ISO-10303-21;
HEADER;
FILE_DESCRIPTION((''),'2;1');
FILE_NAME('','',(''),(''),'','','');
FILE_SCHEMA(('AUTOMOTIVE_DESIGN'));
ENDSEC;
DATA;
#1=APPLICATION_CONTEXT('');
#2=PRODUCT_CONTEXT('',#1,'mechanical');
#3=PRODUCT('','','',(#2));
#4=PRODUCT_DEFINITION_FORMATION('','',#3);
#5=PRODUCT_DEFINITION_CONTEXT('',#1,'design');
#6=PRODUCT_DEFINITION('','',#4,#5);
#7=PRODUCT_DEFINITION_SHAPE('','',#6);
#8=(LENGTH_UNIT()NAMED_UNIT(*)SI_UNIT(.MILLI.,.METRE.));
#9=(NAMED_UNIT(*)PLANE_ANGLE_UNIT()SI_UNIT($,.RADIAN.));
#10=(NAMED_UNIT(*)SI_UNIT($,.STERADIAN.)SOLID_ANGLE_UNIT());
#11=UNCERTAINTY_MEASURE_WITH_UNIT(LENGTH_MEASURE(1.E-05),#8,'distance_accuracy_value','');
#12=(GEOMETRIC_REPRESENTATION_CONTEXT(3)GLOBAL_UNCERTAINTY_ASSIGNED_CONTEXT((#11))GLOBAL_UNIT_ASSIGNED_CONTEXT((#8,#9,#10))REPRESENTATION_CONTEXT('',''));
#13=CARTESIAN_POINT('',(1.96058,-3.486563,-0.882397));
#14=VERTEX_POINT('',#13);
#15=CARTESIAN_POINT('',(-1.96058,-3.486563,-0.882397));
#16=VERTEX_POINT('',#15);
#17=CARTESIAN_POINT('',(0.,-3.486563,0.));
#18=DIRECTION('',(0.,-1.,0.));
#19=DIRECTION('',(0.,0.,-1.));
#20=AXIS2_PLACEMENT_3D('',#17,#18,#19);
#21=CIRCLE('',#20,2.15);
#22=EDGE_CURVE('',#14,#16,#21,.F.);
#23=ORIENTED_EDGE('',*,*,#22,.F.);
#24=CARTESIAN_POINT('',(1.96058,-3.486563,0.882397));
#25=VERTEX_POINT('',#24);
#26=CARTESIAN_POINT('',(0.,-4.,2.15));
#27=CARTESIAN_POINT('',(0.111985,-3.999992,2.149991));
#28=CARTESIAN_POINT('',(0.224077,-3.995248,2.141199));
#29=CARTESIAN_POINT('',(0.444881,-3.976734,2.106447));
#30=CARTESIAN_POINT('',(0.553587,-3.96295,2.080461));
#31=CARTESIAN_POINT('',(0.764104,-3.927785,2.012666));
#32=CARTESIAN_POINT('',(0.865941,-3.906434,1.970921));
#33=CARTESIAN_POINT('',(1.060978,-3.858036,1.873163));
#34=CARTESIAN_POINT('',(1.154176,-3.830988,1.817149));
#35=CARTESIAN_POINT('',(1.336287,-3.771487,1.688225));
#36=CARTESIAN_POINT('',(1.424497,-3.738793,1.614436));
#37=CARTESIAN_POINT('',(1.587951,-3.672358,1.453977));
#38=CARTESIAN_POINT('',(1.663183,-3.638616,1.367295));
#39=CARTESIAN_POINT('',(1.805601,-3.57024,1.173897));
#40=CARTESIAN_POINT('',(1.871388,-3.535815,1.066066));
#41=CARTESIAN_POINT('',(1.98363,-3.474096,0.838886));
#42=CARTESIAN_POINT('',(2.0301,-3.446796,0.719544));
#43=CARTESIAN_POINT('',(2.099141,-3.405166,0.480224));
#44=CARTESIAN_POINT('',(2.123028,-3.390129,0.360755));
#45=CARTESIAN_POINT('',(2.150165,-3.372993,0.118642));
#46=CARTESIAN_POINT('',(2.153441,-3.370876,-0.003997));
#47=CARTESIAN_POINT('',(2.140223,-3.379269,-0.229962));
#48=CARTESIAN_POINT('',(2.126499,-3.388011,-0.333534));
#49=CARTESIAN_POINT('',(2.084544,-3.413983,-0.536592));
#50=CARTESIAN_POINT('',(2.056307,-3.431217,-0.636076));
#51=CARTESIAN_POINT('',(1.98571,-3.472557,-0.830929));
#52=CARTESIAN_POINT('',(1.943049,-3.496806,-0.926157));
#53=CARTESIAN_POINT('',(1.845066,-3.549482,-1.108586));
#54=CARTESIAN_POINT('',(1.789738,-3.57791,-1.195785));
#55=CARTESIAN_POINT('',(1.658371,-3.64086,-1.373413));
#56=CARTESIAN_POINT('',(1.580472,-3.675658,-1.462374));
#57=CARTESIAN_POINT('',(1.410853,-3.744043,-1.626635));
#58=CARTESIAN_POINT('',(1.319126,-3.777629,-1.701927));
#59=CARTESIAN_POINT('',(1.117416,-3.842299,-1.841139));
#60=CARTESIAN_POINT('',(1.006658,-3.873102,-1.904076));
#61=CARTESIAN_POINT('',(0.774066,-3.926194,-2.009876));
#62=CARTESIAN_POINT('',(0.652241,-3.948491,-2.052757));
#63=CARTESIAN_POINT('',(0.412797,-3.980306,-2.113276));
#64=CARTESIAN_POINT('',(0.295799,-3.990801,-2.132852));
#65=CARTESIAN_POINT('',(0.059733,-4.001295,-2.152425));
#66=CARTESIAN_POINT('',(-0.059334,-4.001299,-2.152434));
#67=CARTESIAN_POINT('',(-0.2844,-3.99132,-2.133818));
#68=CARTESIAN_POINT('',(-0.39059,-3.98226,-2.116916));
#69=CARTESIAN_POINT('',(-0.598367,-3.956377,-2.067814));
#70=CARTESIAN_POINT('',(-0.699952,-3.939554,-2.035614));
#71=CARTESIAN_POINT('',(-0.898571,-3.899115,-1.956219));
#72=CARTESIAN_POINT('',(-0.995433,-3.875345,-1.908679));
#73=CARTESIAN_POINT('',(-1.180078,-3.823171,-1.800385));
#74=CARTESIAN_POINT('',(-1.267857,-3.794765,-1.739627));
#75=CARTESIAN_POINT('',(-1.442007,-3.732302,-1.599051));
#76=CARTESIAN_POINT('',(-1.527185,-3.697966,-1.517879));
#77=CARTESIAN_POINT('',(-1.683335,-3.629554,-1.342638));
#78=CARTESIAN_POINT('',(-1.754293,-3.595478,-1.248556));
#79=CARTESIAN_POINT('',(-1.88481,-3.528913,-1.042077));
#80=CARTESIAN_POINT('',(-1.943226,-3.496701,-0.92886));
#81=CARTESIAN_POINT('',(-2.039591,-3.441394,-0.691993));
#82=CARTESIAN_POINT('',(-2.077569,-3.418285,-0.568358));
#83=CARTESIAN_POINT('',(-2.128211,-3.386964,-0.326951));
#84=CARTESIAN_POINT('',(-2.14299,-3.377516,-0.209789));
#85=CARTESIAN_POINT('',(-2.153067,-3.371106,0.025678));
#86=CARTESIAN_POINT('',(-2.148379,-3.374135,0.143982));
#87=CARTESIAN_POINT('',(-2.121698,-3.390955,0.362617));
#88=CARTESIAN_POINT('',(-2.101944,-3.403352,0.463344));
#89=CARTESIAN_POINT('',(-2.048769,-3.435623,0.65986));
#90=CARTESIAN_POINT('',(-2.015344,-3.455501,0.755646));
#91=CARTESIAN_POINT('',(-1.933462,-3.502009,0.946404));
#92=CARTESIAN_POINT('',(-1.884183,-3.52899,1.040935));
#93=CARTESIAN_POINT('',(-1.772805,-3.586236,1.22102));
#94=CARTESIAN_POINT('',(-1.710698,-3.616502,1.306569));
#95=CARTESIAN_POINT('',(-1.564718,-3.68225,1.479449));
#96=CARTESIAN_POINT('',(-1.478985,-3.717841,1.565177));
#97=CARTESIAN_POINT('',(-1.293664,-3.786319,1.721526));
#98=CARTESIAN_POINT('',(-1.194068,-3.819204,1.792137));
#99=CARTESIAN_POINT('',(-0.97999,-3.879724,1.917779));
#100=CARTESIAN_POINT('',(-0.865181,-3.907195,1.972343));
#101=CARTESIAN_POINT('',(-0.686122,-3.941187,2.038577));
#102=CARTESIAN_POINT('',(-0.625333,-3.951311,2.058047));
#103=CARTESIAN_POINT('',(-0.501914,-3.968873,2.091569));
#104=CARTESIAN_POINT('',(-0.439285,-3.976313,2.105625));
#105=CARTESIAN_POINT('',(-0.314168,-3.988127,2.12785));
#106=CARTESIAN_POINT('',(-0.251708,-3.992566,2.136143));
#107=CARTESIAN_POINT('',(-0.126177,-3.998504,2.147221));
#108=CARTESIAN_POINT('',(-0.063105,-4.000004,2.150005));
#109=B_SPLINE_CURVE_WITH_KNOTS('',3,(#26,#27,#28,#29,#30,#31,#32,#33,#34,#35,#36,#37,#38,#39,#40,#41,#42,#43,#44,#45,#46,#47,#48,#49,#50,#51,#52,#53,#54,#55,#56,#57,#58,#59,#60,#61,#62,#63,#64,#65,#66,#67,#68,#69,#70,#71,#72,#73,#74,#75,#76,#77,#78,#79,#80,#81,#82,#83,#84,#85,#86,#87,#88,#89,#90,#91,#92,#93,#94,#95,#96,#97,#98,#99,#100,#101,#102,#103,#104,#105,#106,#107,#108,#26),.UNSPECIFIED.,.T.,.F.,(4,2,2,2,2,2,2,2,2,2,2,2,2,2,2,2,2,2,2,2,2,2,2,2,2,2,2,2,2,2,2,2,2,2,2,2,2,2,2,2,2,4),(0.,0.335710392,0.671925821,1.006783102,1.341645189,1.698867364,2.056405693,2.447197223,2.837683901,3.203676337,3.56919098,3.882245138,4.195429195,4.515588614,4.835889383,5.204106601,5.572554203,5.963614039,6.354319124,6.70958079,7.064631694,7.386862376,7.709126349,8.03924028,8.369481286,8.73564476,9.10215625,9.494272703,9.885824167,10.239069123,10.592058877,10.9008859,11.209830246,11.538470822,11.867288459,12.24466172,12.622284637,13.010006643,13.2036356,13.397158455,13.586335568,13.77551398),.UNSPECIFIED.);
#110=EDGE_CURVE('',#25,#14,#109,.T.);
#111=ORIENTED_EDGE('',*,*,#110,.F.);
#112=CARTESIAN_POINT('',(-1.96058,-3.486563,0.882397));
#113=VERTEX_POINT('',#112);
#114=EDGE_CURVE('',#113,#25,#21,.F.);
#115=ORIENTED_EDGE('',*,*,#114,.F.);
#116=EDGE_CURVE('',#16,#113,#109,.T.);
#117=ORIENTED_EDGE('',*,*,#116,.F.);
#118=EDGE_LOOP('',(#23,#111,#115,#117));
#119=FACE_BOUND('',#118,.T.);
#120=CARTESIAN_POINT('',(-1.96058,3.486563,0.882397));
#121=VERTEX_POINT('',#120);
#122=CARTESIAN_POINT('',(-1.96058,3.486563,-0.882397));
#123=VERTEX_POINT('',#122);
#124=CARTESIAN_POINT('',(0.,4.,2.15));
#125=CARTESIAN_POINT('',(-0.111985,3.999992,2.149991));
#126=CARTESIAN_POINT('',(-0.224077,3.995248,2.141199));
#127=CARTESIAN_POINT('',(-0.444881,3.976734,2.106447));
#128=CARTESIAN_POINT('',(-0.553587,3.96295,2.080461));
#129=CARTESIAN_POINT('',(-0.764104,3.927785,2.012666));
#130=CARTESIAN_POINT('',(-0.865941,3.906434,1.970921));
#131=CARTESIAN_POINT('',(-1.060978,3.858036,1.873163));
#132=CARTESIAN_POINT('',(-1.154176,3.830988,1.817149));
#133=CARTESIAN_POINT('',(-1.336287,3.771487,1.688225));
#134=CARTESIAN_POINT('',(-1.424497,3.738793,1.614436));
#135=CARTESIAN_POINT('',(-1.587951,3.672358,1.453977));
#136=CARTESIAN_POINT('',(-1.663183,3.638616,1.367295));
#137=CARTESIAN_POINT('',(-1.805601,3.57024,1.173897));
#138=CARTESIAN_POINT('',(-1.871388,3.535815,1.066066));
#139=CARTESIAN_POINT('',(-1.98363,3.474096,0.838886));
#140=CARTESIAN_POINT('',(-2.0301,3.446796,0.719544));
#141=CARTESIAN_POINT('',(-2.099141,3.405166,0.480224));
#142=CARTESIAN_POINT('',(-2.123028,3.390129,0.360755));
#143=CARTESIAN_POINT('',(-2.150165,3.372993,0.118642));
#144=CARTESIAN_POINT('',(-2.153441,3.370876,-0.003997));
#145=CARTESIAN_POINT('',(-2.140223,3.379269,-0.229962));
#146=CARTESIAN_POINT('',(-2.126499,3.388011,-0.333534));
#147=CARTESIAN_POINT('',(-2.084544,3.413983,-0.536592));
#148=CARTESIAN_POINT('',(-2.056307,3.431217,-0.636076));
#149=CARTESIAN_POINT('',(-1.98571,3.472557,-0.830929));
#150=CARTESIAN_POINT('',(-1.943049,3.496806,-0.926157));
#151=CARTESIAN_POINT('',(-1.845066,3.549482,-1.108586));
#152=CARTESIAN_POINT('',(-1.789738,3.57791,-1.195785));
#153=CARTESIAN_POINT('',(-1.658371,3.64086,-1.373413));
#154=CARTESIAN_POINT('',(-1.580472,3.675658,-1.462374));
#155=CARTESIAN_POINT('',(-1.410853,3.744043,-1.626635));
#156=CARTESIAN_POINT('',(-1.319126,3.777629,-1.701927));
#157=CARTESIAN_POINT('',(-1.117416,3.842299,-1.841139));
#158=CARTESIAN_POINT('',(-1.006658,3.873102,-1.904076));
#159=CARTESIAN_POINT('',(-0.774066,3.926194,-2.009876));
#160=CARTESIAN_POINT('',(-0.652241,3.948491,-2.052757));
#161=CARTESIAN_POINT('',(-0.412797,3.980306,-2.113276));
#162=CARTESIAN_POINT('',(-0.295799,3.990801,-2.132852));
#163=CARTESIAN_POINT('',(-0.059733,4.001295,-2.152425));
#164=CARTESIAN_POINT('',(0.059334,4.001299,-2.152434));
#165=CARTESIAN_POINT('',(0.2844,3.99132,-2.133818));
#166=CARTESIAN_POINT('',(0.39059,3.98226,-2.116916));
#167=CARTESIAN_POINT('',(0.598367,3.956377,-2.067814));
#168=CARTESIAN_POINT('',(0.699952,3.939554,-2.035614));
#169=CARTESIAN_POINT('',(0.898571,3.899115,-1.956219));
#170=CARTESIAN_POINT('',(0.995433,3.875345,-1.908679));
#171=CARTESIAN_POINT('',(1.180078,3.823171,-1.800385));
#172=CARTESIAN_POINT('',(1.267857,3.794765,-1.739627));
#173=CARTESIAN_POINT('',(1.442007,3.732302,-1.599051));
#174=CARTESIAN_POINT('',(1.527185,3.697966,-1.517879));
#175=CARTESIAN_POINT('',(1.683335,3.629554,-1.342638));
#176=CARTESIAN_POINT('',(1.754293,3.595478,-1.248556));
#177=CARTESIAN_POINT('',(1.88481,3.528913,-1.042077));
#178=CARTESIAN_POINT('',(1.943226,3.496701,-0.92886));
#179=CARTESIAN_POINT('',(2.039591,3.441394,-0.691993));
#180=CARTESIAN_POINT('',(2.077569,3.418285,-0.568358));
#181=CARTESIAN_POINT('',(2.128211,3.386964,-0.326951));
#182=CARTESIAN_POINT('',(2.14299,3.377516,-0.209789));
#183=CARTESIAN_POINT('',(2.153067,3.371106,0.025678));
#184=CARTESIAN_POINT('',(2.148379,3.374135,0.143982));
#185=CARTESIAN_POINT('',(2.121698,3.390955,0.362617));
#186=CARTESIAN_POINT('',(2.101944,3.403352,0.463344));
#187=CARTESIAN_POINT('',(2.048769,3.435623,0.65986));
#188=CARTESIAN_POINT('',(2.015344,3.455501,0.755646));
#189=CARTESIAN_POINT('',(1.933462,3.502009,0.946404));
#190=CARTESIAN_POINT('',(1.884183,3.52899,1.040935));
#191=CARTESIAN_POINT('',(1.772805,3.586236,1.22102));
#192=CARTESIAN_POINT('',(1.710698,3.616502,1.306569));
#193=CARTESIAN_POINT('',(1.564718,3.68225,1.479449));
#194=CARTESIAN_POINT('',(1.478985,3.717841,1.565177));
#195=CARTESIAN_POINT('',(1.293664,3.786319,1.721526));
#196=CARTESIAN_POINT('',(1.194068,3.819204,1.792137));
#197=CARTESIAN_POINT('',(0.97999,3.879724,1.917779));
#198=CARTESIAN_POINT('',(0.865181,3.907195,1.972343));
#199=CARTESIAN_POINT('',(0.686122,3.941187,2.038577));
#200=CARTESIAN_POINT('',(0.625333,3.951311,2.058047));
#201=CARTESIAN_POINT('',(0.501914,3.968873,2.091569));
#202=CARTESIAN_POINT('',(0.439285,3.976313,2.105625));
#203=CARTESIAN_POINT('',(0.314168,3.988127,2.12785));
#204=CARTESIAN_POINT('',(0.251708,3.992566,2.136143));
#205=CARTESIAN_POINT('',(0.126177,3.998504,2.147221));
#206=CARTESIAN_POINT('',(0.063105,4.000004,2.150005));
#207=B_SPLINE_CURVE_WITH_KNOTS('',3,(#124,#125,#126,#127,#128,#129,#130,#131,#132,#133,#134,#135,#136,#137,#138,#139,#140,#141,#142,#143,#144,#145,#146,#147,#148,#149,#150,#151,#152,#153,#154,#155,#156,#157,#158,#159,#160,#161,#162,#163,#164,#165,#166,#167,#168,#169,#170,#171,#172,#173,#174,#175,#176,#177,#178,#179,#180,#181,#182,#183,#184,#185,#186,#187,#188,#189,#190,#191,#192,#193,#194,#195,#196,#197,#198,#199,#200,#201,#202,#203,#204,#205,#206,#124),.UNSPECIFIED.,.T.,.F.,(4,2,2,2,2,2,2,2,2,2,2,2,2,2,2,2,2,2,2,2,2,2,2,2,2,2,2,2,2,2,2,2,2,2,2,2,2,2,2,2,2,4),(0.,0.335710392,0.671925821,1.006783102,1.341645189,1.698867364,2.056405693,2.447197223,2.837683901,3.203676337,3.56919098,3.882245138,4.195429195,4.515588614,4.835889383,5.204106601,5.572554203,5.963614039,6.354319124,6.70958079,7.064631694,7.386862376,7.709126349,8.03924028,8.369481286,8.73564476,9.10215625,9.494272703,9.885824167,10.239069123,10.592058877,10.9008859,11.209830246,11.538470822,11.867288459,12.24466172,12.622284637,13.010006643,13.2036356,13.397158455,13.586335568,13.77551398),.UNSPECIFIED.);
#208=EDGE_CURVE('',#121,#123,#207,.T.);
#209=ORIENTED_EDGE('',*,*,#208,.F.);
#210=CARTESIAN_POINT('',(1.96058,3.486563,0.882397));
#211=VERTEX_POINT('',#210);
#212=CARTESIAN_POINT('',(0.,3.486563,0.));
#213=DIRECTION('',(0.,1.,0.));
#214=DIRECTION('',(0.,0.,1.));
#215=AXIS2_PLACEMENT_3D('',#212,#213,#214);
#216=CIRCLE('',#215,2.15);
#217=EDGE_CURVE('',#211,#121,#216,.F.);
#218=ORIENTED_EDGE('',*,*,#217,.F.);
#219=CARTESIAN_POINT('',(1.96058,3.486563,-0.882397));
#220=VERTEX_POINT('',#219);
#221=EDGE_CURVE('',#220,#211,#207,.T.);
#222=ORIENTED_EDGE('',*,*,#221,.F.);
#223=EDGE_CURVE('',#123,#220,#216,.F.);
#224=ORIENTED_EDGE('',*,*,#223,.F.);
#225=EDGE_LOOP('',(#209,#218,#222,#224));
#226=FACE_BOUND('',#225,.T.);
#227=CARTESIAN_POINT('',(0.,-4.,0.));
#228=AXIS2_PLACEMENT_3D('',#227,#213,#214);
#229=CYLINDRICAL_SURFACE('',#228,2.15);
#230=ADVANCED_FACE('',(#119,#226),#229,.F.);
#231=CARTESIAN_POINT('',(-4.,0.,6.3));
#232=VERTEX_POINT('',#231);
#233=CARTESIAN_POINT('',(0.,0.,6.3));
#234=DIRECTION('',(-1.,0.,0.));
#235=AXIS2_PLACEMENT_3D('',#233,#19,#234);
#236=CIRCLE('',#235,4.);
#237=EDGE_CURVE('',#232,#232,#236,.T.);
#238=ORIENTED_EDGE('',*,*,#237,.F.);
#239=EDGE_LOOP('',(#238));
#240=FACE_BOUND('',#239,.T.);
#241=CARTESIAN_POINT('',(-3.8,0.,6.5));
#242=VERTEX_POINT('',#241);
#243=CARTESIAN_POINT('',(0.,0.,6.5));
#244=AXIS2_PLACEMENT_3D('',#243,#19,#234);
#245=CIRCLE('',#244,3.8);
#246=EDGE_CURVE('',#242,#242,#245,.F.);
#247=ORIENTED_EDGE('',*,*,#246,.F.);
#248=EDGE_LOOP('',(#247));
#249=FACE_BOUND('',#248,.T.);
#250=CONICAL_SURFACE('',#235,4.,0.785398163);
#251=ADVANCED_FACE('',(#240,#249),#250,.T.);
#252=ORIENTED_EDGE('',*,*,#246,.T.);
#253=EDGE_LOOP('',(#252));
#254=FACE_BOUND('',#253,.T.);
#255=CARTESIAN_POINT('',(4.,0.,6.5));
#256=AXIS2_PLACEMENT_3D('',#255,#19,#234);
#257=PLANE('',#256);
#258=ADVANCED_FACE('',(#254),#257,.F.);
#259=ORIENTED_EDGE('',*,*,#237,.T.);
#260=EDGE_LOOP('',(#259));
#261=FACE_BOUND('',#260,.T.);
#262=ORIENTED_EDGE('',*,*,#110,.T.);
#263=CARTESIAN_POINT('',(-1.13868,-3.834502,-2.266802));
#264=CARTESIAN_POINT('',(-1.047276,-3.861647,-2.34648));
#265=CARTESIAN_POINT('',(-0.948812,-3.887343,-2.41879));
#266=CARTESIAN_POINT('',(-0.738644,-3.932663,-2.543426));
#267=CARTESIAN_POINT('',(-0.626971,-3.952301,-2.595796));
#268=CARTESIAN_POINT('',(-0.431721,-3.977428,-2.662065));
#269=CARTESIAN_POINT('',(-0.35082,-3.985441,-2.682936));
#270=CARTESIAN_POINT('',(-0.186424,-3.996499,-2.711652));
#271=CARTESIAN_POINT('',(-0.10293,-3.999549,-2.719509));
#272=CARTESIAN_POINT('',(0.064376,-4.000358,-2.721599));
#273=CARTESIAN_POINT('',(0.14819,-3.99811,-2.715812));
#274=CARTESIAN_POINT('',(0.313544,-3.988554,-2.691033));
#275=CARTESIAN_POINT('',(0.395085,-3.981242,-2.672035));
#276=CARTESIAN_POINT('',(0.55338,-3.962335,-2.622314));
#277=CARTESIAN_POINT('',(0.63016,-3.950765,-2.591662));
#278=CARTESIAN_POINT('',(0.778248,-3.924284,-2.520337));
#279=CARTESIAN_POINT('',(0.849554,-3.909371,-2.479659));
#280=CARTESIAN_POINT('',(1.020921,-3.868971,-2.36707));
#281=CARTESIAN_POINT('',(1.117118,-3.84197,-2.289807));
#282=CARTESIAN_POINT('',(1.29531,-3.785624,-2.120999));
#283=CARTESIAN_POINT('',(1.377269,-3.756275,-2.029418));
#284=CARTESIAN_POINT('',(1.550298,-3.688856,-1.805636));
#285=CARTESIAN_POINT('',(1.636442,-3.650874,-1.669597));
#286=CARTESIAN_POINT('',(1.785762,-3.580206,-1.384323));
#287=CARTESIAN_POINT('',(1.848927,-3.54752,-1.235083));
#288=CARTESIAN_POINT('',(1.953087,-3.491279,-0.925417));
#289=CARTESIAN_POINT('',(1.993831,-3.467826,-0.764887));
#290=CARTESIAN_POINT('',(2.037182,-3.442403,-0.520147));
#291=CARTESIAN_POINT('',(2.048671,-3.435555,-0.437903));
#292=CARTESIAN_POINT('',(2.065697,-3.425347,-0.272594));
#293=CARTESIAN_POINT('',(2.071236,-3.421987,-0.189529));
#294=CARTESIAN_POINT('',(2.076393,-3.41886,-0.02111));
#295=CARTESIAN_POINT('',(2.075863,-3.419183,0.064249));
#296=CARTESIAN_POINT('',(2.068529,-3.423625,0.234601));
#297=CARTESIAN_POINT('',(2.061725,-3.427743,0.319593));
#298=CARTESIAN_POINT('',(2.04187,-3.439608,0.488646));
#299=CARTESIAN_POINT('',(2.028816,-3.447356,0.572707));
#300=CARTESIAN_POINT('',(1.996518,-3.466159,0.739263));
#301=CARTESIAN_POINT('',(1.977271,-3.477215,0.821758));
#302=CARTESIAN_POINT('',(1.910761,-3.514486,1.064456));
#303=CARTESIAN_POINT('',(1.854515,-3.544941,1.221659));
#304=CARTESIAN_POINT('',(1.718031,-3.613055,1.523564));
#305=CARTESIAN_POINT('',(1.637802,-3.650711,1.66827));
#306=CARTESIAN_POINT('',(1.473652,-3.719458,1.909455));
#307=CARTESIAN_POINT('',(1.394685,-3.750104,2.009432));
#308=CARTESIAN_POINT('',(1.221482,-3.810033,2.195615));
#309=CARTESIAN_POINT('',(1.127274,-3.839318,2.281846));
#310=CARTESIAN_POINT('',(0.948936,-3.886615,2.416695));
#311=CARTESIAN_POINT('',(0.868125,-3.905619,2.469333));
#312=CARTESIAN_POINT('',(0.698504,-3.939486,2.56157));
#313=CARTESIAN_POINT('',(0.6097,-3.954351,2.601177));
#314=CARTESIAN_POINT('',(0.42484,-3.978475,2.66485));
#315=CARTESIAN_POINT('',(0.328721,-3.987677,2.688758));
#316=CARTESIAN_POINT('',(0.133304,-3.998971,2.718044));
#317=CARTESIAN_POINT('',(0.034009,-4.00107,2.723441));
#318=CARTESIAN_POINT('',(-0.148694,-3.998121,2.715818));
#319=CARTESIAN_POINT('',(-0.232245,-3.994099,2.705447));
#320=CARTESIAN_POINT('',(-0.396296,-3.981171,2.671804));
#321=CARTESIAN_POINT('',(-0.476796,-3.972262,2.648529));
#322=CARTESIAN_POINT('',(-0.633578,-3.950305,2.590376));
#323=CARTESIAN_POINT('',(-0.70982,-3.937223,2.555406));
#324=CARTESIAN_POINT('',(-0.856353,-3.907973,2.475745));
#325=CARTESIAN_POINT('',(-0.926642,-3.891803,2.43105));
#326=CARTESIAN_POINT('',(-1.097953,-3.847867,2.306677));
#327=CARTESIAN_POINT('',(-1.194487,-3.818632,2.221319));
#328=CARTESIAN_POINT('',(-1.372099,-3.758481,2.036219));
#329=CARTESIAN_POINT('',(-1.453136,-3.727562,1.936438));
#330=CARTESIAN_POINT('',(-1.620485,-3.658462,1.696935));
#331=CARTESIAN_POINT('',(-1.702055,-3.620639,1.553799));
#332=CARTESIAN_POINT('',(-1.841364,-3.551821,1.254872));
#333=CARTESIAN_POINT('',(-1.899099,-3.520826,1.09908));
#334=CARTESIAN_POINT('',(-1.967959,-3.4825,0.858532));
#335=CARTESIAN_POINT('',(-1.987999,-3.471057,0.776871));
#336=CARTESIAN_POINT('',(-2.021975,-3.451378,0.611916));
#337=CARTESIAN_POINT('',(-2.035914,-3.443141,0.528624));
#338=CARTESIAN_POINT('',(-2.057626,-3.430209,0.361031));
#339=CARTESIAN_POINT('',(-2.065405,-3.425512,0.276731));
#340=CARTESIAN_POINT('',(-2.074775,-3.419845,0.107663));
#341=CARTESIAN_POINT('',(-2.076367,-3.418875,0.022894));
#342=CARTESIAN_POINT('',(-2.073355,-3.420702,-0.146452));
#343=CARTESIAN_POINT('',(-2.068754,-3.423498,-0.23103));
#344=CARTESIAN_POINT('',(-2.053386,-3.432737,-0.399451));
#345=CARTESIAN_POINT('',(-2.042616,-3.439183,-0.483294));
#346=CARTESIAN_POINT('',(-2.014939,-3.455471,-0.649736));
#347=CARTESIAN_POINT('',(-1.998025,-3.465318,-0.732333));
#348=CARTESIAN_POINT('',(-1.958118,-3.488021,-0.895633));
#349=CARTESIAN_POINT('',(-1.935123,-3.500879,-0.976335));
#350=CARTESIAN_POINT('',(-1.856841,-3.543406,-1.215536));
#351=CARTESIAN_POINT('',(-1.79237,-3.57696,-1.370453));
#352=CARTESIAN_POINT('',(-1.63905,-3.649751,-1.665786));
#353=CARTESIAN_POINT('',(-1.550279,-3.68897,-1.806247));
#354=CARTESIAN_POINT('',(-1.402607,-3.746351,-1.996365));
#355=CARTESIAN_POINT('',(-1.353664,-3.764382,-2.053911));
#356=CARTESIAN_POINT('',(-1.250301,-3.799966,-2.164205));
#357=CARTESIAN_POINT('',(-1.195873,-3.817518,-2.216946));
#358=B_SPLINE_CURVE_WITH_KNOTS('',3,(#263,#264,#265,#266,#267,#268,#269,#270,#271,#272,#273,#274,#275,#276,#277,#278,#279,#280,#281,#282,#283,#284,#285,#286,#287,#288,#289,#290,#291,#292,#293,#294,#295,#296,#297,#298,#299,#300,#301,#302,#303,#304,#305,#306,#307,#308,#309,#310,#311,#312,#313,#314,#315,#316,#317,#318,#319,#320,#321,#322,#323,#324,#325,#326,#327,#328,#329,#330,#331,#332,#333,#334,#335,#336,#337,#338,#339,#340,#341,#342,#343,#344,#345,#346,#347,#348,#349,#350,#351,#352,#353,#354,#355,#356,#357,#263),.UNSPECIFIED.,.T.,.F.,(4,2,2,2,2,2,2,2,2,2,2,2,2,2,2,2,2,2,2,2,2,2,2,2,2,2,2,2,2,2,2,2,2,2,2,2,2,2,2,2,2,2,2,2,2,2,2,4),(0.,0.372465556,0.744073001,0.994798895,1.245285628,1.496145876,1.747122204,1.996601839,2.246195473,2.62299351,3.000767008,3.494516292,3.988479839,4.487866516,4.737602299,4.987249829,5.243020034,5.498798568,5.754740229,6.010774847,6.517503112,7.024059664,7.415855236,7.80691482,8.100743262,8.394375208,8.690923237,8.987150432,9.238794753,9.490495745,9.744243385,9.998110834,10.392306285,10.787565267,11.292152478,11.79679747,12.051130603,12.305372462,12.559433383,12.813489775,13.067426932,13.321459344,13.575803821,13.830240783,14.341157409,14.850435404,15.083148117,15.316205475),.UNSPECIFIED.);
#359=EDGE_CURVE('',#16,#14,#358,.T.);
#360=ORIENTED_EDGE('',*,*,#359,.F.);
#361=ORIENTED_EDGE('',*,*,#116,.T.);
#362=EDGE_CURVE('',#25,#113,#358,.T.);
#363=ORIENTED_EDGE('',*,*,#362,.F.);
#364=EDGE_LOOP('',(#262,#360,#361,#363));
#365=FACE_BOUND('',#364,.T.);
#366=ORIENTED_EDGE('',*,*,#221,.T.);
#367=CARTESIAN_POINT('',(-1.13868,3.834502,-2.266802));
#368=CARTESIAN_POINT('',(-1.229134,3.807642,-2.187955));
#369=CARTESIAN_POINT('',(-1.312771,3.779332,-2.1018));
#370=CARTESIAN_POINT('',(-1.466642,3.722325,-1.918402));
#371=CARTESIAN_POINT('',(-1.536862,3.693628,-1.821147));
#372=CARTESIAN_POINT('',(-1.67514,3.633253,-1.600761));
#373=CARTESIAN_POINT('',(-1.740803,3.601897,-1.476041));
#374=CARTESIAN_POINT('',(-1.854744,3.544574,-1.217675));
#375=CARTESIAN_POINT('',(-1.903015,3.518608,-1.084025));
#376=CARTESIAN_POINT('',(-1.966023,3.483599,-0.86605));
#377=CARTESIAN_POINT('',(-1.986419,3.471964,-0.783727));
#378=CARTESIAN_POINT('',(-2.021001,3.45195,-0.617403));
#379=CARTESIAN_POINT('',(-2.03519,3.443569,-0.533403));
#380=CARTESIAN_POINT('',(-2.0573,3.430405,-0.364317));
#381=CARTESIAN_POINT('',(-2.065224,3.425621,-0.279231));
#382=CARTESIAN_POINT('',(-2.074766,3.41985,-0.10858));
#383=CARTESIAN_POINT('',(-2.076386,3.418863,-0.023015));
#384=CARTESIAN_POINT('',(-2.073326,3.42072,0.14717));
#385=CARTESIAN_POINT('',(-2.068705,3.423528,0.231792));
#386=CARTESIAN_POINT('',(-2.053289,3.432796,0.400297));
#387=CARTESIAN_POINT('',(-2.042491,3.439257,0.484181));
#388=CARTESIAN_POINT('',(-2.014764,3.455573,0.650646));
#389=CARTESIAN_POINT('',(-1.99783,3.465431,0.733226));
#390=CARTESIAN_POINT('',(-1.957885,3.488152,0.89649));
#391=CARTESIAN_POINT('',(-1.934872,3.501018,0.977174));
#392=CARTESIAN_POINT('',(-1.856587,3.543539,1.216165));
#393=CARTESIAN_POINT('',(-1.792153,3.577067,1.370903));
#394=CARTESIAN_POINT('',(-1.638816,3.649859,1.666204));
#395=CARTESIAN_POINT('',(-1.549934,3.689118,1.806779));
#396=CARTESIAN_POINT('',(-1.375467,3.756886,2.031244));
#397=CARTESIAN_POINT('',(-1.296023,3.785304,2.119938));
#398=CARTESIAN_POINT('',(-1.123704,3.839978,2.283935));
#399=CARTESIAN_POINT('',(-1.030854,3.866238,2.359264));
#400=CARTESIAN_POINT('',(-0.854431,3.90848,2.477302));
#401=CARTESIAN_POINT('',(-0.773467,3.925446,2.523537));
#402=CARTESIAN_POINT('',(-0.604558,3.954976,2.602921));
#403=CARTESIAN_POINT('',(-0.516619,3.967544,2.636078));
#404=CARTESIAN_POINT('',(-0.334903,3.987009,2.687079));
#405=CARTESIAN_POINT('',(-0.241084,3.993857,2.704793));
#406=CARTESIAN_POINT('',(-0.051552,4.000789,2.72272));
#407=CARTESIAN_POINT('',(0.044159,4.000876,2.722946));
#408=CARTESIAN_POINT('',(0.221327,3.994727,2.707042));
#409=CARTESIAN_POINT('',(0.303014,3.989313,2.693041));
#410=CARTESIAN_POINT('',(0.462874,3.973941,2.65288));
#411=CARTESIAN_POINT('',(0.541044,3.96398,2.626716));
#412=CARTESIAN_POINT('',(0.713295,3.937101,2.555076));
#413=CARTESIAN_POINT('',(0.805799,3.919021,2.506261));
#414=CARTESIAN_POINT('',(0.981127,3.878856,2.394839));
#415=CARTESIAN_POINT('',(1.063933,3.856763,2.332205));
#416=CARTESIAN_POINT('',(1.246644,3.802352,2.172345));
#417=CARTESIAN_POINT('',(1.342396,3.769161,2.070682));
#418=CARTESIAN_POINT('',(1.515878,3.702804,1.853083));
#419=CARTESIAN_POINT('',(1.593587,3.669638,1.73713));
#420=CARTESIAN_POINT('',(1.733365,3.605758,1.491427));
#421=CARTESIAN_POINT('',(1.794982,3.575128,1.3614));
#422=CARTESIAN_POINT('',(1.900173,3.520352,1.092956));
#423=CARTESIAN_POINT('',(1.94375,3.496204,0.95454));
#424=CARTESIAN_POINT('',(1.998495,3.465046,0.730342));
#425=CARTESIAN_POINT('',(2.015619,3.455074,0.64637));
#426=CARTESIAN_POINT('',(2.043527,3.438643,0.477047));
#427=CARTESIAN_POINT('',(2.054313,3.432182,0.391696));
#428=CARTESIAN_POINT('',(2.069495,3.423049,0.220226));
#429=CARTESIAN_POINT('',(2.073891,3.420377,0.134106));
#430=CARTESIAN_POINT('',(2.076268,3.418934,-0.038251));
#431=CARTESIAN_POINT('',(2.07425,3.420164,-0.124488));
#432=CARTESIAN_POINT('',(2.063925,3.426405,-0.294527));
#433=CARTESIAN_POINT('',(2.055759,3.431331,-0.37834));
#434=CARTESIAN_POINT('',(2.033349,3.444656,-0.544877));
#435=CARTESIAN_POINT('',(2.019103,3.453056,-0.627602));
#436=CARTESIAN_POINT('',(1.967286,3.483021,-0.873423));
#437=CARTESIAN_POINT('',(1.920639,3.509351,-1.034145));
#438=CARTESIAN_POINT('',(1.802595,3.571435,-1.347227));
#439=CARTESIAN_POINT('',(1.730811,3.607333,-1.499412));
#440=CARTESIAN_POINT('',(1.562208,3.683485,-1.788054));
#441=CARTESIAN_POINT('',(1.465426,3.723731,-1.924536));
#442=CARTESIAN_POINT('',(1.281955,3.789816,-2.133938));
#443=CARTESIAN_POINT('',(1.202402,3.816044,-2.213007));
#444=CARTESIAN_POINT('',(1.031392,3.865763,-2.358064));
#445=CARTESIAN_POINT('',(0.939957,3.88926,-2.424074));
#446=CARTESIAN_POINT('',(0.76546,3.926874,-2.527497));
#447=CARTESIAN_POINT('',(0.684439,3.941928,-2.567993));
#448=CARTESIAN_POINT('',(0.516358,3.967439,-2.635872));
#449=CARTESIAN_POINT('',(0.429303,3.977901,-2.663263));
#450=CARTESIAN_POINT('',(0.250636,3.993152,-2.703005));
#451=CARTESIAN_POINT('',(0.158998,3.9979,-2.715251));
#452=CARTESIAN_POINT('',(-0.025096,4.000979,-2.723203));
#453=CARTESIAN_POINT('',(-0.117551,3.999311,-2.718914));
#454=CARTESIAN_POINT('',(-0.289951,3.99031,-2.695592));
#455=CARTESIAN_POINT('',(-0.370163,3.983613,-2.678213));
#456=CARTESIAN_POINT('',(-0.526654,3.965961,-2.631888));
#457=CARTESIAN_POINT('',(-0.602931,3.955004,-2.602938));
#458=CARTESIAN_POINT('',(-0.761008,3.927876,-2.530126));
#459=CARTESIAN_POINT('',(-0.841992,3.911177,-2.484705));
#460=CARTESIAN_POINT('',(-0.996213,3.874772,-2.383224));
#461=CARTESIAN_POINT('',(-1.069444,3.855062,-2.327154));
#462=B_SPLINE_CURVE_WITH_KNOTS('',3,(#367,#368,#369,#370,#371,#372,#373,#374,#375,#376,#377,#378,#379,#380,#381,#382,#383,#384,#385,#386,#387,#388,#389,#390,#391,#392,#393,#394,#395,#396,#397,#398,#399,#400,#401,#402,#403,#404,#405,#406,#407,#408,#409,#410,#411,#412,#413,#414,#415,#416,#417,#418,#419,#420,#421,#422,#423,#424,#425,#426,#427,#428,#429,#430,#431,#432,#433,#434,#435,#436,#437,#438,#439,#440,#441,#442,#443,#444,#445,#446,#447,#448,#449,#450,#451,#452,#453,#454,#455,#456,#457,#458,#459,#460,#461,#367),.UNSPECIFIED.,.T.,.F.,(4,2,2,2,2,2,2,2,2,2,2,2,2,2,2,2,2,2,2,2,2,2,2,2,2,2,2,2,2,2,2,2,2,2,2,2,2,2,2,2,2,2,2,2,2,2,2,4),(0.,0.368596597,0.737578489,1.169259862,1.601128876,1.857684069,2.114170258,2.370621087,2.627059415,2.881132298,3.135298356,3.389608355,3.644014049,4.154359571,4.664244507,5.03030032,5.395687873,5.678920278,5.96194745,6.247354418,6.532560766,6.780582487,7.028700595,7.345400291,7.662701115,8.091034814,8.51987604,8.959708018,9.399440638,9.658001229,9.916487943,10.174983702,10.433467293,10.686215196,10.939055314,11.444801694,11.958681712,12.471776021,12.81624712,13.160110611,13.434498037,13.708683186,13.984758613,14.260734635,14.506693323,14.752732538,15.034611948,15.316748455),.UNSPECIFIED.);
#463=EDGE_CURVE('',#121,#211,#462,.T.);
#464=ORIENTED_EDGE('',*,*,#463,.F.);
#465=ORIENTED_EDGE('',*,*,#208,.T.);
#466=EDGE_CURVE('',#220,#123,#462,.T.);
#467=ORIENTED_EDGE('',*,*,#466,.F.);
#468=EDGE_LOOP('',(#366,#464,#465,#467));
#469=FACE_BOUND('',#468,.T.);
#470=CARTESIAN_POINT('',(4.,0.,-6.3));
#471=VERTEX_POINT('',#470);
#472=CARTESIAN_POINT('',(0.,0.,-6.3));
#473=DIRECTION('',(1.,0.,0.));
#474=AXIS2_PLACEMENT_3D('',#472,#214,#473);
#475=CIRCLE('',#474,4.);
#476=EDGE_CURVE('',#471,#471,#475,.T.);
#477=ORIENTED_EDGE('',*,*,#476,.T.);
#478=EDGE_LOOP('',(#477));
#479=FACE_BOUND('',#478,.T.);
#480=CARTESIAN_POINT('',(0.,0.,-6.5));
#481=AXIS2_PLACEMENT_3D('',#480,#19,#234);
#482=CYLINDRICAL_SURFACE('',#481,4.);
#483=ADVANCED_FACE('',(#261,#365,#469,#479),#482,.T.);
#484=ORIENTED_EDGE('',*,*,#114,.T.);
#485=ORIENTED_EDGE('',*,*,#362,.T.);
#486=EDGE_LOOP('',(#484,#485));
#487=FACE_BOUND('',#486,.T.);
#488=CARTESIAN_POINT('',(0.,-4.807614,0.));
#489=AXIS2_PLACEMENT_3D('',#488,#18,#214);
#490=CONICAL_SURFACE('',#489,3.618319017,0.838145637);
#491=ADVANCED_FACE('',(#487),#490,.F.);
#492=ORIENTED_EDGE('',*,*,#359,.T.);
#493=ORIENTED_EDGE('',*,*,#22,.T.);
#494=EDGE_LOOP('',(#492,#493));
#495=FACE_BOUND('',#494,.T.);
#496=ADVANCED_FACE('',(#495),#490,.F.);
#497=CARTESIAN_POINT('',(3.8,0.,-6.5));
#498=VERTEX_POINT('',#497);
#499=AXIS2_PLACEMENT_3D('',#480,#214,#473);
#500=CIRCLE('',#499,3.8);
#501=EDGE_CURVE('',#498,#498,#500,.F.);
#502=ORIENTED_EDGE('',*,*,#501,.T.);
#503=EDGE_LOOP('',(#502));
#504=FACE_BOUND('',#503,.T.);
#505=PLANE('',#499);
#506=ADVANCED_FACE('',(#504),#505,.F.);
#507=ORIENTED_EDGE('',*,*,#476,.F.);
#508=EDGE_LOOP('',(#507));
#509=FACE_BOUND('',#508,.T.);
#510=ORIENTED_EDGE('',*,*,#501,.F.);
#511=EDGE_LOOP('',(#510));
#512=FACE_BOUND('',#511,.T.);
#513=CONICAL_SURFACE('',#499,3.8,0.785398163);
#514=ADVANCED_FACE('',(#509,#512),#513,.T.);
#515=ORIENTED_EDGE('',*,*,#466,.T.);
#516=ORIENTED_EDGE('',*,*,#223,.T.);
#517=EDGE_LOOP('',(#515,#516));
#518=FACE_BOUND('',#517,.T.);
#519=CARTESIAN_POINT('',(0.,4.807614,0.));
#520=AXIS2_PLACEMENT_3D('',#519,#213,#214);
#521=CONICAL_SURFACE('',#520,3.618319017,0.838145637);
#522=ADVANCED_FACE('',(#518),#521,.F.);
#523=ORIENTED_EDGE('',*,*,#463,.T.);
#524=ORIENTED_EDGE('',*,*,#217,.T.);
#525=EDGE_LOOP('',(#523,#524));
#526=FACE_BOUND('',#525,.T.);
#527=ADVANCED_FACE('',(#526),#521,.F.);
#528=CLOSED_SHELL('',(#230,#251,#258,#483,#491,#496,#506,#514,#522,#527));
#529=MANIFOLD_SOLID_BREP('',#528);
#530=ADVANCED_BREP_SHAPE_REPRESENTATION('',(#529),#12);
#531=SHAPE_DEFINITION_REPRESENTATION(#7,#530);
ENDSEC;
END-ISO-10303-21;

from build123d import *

# Parameters (mm, degrees)
CROQUIS1_W                 = 4
CROQUIS1_H                 = 13
CHAFL_N1_SIZE              = 0.2
CORTAR_EXTRUIR1_DEPTH      = 9.61684397
CORTAR_EXTRUIR1_DEPTH_BACK = 9.61684397
CROQUIS2_R                 = 2.15


with BuildPart() as part:
    # Croquis1 → Revolución1 (revolve)
    with BuildSketch(Plane(origin=(0, 0, 0), x_dir=(1, 0, 0), z_dir=(0, 1, 0)), mode=Mode.PRIVATE) as revoluci_n1_sk:
        with Locations((2, 0)):
            Rectangle(CROQUIS1_W, CROQUIS1_H)
    revolve(revoluci_n1_sk.sketch.rotate(Axis((0, 0, -6.5), (0, 0, 1)), 180), axis=Axis((0, 0, -6.5), (0, 0, 1)))

    # Chaflán1
    chafl_n1_edges = [part.edges().sort_by_distance(p)[0] for p in [
        (4, 0, 6.5),
        (4, 0, -6.5),
    ]]
    chamfer(chafl_n1_edges, length=CHAFL_N1_SIZE)

    # Croquis2 → Cortar-Extruir1 (cut, two sides: drawn at the far end of the back side and taken through both)
    with BuildSketch(Plane(origin=(0, 0, 0), x_dir=(1, 0, 0), z_dir=(0, 1, 0)).offset(-CORTAR_EXTRUIR1_DEPTH_BACK)):
        with Locations(Location((0, 0, 0), (0, 0, 270))):
            Circle(CROQUIS2_R)
    extrude(amount=CORTAR_EXTRUIR1_DEPTH + CORTAR_EXTRUIR1_DEPTH_BACK, mode=Mode.SUBTRACT)

    # Croquis3 → Cortar-Revolución1 (revolve, cut)
    with BuildSketch(Plane(origin=(0, 0, 0), x_dir=(0, 0, -1), z_dir=(1, 0, 0))):
        Polygon((0, 2.827658977), (-1.417641815, 2.827658977), (-3.618319017, 4.807613665), (0, 4.807613665), align=None)
    cortar_revoluci_n1 = revolve(axis=Axis((0, 0, 0), (0, 1, 0)), mode=Mode.SUBTRACT)

    # Simetría1: Cortar-Revolución1 across plane
    add(cortar_revoluci_n1.mirror(Plane.ZX), mode=Mode.SUBTRACT)


solid = part.part
